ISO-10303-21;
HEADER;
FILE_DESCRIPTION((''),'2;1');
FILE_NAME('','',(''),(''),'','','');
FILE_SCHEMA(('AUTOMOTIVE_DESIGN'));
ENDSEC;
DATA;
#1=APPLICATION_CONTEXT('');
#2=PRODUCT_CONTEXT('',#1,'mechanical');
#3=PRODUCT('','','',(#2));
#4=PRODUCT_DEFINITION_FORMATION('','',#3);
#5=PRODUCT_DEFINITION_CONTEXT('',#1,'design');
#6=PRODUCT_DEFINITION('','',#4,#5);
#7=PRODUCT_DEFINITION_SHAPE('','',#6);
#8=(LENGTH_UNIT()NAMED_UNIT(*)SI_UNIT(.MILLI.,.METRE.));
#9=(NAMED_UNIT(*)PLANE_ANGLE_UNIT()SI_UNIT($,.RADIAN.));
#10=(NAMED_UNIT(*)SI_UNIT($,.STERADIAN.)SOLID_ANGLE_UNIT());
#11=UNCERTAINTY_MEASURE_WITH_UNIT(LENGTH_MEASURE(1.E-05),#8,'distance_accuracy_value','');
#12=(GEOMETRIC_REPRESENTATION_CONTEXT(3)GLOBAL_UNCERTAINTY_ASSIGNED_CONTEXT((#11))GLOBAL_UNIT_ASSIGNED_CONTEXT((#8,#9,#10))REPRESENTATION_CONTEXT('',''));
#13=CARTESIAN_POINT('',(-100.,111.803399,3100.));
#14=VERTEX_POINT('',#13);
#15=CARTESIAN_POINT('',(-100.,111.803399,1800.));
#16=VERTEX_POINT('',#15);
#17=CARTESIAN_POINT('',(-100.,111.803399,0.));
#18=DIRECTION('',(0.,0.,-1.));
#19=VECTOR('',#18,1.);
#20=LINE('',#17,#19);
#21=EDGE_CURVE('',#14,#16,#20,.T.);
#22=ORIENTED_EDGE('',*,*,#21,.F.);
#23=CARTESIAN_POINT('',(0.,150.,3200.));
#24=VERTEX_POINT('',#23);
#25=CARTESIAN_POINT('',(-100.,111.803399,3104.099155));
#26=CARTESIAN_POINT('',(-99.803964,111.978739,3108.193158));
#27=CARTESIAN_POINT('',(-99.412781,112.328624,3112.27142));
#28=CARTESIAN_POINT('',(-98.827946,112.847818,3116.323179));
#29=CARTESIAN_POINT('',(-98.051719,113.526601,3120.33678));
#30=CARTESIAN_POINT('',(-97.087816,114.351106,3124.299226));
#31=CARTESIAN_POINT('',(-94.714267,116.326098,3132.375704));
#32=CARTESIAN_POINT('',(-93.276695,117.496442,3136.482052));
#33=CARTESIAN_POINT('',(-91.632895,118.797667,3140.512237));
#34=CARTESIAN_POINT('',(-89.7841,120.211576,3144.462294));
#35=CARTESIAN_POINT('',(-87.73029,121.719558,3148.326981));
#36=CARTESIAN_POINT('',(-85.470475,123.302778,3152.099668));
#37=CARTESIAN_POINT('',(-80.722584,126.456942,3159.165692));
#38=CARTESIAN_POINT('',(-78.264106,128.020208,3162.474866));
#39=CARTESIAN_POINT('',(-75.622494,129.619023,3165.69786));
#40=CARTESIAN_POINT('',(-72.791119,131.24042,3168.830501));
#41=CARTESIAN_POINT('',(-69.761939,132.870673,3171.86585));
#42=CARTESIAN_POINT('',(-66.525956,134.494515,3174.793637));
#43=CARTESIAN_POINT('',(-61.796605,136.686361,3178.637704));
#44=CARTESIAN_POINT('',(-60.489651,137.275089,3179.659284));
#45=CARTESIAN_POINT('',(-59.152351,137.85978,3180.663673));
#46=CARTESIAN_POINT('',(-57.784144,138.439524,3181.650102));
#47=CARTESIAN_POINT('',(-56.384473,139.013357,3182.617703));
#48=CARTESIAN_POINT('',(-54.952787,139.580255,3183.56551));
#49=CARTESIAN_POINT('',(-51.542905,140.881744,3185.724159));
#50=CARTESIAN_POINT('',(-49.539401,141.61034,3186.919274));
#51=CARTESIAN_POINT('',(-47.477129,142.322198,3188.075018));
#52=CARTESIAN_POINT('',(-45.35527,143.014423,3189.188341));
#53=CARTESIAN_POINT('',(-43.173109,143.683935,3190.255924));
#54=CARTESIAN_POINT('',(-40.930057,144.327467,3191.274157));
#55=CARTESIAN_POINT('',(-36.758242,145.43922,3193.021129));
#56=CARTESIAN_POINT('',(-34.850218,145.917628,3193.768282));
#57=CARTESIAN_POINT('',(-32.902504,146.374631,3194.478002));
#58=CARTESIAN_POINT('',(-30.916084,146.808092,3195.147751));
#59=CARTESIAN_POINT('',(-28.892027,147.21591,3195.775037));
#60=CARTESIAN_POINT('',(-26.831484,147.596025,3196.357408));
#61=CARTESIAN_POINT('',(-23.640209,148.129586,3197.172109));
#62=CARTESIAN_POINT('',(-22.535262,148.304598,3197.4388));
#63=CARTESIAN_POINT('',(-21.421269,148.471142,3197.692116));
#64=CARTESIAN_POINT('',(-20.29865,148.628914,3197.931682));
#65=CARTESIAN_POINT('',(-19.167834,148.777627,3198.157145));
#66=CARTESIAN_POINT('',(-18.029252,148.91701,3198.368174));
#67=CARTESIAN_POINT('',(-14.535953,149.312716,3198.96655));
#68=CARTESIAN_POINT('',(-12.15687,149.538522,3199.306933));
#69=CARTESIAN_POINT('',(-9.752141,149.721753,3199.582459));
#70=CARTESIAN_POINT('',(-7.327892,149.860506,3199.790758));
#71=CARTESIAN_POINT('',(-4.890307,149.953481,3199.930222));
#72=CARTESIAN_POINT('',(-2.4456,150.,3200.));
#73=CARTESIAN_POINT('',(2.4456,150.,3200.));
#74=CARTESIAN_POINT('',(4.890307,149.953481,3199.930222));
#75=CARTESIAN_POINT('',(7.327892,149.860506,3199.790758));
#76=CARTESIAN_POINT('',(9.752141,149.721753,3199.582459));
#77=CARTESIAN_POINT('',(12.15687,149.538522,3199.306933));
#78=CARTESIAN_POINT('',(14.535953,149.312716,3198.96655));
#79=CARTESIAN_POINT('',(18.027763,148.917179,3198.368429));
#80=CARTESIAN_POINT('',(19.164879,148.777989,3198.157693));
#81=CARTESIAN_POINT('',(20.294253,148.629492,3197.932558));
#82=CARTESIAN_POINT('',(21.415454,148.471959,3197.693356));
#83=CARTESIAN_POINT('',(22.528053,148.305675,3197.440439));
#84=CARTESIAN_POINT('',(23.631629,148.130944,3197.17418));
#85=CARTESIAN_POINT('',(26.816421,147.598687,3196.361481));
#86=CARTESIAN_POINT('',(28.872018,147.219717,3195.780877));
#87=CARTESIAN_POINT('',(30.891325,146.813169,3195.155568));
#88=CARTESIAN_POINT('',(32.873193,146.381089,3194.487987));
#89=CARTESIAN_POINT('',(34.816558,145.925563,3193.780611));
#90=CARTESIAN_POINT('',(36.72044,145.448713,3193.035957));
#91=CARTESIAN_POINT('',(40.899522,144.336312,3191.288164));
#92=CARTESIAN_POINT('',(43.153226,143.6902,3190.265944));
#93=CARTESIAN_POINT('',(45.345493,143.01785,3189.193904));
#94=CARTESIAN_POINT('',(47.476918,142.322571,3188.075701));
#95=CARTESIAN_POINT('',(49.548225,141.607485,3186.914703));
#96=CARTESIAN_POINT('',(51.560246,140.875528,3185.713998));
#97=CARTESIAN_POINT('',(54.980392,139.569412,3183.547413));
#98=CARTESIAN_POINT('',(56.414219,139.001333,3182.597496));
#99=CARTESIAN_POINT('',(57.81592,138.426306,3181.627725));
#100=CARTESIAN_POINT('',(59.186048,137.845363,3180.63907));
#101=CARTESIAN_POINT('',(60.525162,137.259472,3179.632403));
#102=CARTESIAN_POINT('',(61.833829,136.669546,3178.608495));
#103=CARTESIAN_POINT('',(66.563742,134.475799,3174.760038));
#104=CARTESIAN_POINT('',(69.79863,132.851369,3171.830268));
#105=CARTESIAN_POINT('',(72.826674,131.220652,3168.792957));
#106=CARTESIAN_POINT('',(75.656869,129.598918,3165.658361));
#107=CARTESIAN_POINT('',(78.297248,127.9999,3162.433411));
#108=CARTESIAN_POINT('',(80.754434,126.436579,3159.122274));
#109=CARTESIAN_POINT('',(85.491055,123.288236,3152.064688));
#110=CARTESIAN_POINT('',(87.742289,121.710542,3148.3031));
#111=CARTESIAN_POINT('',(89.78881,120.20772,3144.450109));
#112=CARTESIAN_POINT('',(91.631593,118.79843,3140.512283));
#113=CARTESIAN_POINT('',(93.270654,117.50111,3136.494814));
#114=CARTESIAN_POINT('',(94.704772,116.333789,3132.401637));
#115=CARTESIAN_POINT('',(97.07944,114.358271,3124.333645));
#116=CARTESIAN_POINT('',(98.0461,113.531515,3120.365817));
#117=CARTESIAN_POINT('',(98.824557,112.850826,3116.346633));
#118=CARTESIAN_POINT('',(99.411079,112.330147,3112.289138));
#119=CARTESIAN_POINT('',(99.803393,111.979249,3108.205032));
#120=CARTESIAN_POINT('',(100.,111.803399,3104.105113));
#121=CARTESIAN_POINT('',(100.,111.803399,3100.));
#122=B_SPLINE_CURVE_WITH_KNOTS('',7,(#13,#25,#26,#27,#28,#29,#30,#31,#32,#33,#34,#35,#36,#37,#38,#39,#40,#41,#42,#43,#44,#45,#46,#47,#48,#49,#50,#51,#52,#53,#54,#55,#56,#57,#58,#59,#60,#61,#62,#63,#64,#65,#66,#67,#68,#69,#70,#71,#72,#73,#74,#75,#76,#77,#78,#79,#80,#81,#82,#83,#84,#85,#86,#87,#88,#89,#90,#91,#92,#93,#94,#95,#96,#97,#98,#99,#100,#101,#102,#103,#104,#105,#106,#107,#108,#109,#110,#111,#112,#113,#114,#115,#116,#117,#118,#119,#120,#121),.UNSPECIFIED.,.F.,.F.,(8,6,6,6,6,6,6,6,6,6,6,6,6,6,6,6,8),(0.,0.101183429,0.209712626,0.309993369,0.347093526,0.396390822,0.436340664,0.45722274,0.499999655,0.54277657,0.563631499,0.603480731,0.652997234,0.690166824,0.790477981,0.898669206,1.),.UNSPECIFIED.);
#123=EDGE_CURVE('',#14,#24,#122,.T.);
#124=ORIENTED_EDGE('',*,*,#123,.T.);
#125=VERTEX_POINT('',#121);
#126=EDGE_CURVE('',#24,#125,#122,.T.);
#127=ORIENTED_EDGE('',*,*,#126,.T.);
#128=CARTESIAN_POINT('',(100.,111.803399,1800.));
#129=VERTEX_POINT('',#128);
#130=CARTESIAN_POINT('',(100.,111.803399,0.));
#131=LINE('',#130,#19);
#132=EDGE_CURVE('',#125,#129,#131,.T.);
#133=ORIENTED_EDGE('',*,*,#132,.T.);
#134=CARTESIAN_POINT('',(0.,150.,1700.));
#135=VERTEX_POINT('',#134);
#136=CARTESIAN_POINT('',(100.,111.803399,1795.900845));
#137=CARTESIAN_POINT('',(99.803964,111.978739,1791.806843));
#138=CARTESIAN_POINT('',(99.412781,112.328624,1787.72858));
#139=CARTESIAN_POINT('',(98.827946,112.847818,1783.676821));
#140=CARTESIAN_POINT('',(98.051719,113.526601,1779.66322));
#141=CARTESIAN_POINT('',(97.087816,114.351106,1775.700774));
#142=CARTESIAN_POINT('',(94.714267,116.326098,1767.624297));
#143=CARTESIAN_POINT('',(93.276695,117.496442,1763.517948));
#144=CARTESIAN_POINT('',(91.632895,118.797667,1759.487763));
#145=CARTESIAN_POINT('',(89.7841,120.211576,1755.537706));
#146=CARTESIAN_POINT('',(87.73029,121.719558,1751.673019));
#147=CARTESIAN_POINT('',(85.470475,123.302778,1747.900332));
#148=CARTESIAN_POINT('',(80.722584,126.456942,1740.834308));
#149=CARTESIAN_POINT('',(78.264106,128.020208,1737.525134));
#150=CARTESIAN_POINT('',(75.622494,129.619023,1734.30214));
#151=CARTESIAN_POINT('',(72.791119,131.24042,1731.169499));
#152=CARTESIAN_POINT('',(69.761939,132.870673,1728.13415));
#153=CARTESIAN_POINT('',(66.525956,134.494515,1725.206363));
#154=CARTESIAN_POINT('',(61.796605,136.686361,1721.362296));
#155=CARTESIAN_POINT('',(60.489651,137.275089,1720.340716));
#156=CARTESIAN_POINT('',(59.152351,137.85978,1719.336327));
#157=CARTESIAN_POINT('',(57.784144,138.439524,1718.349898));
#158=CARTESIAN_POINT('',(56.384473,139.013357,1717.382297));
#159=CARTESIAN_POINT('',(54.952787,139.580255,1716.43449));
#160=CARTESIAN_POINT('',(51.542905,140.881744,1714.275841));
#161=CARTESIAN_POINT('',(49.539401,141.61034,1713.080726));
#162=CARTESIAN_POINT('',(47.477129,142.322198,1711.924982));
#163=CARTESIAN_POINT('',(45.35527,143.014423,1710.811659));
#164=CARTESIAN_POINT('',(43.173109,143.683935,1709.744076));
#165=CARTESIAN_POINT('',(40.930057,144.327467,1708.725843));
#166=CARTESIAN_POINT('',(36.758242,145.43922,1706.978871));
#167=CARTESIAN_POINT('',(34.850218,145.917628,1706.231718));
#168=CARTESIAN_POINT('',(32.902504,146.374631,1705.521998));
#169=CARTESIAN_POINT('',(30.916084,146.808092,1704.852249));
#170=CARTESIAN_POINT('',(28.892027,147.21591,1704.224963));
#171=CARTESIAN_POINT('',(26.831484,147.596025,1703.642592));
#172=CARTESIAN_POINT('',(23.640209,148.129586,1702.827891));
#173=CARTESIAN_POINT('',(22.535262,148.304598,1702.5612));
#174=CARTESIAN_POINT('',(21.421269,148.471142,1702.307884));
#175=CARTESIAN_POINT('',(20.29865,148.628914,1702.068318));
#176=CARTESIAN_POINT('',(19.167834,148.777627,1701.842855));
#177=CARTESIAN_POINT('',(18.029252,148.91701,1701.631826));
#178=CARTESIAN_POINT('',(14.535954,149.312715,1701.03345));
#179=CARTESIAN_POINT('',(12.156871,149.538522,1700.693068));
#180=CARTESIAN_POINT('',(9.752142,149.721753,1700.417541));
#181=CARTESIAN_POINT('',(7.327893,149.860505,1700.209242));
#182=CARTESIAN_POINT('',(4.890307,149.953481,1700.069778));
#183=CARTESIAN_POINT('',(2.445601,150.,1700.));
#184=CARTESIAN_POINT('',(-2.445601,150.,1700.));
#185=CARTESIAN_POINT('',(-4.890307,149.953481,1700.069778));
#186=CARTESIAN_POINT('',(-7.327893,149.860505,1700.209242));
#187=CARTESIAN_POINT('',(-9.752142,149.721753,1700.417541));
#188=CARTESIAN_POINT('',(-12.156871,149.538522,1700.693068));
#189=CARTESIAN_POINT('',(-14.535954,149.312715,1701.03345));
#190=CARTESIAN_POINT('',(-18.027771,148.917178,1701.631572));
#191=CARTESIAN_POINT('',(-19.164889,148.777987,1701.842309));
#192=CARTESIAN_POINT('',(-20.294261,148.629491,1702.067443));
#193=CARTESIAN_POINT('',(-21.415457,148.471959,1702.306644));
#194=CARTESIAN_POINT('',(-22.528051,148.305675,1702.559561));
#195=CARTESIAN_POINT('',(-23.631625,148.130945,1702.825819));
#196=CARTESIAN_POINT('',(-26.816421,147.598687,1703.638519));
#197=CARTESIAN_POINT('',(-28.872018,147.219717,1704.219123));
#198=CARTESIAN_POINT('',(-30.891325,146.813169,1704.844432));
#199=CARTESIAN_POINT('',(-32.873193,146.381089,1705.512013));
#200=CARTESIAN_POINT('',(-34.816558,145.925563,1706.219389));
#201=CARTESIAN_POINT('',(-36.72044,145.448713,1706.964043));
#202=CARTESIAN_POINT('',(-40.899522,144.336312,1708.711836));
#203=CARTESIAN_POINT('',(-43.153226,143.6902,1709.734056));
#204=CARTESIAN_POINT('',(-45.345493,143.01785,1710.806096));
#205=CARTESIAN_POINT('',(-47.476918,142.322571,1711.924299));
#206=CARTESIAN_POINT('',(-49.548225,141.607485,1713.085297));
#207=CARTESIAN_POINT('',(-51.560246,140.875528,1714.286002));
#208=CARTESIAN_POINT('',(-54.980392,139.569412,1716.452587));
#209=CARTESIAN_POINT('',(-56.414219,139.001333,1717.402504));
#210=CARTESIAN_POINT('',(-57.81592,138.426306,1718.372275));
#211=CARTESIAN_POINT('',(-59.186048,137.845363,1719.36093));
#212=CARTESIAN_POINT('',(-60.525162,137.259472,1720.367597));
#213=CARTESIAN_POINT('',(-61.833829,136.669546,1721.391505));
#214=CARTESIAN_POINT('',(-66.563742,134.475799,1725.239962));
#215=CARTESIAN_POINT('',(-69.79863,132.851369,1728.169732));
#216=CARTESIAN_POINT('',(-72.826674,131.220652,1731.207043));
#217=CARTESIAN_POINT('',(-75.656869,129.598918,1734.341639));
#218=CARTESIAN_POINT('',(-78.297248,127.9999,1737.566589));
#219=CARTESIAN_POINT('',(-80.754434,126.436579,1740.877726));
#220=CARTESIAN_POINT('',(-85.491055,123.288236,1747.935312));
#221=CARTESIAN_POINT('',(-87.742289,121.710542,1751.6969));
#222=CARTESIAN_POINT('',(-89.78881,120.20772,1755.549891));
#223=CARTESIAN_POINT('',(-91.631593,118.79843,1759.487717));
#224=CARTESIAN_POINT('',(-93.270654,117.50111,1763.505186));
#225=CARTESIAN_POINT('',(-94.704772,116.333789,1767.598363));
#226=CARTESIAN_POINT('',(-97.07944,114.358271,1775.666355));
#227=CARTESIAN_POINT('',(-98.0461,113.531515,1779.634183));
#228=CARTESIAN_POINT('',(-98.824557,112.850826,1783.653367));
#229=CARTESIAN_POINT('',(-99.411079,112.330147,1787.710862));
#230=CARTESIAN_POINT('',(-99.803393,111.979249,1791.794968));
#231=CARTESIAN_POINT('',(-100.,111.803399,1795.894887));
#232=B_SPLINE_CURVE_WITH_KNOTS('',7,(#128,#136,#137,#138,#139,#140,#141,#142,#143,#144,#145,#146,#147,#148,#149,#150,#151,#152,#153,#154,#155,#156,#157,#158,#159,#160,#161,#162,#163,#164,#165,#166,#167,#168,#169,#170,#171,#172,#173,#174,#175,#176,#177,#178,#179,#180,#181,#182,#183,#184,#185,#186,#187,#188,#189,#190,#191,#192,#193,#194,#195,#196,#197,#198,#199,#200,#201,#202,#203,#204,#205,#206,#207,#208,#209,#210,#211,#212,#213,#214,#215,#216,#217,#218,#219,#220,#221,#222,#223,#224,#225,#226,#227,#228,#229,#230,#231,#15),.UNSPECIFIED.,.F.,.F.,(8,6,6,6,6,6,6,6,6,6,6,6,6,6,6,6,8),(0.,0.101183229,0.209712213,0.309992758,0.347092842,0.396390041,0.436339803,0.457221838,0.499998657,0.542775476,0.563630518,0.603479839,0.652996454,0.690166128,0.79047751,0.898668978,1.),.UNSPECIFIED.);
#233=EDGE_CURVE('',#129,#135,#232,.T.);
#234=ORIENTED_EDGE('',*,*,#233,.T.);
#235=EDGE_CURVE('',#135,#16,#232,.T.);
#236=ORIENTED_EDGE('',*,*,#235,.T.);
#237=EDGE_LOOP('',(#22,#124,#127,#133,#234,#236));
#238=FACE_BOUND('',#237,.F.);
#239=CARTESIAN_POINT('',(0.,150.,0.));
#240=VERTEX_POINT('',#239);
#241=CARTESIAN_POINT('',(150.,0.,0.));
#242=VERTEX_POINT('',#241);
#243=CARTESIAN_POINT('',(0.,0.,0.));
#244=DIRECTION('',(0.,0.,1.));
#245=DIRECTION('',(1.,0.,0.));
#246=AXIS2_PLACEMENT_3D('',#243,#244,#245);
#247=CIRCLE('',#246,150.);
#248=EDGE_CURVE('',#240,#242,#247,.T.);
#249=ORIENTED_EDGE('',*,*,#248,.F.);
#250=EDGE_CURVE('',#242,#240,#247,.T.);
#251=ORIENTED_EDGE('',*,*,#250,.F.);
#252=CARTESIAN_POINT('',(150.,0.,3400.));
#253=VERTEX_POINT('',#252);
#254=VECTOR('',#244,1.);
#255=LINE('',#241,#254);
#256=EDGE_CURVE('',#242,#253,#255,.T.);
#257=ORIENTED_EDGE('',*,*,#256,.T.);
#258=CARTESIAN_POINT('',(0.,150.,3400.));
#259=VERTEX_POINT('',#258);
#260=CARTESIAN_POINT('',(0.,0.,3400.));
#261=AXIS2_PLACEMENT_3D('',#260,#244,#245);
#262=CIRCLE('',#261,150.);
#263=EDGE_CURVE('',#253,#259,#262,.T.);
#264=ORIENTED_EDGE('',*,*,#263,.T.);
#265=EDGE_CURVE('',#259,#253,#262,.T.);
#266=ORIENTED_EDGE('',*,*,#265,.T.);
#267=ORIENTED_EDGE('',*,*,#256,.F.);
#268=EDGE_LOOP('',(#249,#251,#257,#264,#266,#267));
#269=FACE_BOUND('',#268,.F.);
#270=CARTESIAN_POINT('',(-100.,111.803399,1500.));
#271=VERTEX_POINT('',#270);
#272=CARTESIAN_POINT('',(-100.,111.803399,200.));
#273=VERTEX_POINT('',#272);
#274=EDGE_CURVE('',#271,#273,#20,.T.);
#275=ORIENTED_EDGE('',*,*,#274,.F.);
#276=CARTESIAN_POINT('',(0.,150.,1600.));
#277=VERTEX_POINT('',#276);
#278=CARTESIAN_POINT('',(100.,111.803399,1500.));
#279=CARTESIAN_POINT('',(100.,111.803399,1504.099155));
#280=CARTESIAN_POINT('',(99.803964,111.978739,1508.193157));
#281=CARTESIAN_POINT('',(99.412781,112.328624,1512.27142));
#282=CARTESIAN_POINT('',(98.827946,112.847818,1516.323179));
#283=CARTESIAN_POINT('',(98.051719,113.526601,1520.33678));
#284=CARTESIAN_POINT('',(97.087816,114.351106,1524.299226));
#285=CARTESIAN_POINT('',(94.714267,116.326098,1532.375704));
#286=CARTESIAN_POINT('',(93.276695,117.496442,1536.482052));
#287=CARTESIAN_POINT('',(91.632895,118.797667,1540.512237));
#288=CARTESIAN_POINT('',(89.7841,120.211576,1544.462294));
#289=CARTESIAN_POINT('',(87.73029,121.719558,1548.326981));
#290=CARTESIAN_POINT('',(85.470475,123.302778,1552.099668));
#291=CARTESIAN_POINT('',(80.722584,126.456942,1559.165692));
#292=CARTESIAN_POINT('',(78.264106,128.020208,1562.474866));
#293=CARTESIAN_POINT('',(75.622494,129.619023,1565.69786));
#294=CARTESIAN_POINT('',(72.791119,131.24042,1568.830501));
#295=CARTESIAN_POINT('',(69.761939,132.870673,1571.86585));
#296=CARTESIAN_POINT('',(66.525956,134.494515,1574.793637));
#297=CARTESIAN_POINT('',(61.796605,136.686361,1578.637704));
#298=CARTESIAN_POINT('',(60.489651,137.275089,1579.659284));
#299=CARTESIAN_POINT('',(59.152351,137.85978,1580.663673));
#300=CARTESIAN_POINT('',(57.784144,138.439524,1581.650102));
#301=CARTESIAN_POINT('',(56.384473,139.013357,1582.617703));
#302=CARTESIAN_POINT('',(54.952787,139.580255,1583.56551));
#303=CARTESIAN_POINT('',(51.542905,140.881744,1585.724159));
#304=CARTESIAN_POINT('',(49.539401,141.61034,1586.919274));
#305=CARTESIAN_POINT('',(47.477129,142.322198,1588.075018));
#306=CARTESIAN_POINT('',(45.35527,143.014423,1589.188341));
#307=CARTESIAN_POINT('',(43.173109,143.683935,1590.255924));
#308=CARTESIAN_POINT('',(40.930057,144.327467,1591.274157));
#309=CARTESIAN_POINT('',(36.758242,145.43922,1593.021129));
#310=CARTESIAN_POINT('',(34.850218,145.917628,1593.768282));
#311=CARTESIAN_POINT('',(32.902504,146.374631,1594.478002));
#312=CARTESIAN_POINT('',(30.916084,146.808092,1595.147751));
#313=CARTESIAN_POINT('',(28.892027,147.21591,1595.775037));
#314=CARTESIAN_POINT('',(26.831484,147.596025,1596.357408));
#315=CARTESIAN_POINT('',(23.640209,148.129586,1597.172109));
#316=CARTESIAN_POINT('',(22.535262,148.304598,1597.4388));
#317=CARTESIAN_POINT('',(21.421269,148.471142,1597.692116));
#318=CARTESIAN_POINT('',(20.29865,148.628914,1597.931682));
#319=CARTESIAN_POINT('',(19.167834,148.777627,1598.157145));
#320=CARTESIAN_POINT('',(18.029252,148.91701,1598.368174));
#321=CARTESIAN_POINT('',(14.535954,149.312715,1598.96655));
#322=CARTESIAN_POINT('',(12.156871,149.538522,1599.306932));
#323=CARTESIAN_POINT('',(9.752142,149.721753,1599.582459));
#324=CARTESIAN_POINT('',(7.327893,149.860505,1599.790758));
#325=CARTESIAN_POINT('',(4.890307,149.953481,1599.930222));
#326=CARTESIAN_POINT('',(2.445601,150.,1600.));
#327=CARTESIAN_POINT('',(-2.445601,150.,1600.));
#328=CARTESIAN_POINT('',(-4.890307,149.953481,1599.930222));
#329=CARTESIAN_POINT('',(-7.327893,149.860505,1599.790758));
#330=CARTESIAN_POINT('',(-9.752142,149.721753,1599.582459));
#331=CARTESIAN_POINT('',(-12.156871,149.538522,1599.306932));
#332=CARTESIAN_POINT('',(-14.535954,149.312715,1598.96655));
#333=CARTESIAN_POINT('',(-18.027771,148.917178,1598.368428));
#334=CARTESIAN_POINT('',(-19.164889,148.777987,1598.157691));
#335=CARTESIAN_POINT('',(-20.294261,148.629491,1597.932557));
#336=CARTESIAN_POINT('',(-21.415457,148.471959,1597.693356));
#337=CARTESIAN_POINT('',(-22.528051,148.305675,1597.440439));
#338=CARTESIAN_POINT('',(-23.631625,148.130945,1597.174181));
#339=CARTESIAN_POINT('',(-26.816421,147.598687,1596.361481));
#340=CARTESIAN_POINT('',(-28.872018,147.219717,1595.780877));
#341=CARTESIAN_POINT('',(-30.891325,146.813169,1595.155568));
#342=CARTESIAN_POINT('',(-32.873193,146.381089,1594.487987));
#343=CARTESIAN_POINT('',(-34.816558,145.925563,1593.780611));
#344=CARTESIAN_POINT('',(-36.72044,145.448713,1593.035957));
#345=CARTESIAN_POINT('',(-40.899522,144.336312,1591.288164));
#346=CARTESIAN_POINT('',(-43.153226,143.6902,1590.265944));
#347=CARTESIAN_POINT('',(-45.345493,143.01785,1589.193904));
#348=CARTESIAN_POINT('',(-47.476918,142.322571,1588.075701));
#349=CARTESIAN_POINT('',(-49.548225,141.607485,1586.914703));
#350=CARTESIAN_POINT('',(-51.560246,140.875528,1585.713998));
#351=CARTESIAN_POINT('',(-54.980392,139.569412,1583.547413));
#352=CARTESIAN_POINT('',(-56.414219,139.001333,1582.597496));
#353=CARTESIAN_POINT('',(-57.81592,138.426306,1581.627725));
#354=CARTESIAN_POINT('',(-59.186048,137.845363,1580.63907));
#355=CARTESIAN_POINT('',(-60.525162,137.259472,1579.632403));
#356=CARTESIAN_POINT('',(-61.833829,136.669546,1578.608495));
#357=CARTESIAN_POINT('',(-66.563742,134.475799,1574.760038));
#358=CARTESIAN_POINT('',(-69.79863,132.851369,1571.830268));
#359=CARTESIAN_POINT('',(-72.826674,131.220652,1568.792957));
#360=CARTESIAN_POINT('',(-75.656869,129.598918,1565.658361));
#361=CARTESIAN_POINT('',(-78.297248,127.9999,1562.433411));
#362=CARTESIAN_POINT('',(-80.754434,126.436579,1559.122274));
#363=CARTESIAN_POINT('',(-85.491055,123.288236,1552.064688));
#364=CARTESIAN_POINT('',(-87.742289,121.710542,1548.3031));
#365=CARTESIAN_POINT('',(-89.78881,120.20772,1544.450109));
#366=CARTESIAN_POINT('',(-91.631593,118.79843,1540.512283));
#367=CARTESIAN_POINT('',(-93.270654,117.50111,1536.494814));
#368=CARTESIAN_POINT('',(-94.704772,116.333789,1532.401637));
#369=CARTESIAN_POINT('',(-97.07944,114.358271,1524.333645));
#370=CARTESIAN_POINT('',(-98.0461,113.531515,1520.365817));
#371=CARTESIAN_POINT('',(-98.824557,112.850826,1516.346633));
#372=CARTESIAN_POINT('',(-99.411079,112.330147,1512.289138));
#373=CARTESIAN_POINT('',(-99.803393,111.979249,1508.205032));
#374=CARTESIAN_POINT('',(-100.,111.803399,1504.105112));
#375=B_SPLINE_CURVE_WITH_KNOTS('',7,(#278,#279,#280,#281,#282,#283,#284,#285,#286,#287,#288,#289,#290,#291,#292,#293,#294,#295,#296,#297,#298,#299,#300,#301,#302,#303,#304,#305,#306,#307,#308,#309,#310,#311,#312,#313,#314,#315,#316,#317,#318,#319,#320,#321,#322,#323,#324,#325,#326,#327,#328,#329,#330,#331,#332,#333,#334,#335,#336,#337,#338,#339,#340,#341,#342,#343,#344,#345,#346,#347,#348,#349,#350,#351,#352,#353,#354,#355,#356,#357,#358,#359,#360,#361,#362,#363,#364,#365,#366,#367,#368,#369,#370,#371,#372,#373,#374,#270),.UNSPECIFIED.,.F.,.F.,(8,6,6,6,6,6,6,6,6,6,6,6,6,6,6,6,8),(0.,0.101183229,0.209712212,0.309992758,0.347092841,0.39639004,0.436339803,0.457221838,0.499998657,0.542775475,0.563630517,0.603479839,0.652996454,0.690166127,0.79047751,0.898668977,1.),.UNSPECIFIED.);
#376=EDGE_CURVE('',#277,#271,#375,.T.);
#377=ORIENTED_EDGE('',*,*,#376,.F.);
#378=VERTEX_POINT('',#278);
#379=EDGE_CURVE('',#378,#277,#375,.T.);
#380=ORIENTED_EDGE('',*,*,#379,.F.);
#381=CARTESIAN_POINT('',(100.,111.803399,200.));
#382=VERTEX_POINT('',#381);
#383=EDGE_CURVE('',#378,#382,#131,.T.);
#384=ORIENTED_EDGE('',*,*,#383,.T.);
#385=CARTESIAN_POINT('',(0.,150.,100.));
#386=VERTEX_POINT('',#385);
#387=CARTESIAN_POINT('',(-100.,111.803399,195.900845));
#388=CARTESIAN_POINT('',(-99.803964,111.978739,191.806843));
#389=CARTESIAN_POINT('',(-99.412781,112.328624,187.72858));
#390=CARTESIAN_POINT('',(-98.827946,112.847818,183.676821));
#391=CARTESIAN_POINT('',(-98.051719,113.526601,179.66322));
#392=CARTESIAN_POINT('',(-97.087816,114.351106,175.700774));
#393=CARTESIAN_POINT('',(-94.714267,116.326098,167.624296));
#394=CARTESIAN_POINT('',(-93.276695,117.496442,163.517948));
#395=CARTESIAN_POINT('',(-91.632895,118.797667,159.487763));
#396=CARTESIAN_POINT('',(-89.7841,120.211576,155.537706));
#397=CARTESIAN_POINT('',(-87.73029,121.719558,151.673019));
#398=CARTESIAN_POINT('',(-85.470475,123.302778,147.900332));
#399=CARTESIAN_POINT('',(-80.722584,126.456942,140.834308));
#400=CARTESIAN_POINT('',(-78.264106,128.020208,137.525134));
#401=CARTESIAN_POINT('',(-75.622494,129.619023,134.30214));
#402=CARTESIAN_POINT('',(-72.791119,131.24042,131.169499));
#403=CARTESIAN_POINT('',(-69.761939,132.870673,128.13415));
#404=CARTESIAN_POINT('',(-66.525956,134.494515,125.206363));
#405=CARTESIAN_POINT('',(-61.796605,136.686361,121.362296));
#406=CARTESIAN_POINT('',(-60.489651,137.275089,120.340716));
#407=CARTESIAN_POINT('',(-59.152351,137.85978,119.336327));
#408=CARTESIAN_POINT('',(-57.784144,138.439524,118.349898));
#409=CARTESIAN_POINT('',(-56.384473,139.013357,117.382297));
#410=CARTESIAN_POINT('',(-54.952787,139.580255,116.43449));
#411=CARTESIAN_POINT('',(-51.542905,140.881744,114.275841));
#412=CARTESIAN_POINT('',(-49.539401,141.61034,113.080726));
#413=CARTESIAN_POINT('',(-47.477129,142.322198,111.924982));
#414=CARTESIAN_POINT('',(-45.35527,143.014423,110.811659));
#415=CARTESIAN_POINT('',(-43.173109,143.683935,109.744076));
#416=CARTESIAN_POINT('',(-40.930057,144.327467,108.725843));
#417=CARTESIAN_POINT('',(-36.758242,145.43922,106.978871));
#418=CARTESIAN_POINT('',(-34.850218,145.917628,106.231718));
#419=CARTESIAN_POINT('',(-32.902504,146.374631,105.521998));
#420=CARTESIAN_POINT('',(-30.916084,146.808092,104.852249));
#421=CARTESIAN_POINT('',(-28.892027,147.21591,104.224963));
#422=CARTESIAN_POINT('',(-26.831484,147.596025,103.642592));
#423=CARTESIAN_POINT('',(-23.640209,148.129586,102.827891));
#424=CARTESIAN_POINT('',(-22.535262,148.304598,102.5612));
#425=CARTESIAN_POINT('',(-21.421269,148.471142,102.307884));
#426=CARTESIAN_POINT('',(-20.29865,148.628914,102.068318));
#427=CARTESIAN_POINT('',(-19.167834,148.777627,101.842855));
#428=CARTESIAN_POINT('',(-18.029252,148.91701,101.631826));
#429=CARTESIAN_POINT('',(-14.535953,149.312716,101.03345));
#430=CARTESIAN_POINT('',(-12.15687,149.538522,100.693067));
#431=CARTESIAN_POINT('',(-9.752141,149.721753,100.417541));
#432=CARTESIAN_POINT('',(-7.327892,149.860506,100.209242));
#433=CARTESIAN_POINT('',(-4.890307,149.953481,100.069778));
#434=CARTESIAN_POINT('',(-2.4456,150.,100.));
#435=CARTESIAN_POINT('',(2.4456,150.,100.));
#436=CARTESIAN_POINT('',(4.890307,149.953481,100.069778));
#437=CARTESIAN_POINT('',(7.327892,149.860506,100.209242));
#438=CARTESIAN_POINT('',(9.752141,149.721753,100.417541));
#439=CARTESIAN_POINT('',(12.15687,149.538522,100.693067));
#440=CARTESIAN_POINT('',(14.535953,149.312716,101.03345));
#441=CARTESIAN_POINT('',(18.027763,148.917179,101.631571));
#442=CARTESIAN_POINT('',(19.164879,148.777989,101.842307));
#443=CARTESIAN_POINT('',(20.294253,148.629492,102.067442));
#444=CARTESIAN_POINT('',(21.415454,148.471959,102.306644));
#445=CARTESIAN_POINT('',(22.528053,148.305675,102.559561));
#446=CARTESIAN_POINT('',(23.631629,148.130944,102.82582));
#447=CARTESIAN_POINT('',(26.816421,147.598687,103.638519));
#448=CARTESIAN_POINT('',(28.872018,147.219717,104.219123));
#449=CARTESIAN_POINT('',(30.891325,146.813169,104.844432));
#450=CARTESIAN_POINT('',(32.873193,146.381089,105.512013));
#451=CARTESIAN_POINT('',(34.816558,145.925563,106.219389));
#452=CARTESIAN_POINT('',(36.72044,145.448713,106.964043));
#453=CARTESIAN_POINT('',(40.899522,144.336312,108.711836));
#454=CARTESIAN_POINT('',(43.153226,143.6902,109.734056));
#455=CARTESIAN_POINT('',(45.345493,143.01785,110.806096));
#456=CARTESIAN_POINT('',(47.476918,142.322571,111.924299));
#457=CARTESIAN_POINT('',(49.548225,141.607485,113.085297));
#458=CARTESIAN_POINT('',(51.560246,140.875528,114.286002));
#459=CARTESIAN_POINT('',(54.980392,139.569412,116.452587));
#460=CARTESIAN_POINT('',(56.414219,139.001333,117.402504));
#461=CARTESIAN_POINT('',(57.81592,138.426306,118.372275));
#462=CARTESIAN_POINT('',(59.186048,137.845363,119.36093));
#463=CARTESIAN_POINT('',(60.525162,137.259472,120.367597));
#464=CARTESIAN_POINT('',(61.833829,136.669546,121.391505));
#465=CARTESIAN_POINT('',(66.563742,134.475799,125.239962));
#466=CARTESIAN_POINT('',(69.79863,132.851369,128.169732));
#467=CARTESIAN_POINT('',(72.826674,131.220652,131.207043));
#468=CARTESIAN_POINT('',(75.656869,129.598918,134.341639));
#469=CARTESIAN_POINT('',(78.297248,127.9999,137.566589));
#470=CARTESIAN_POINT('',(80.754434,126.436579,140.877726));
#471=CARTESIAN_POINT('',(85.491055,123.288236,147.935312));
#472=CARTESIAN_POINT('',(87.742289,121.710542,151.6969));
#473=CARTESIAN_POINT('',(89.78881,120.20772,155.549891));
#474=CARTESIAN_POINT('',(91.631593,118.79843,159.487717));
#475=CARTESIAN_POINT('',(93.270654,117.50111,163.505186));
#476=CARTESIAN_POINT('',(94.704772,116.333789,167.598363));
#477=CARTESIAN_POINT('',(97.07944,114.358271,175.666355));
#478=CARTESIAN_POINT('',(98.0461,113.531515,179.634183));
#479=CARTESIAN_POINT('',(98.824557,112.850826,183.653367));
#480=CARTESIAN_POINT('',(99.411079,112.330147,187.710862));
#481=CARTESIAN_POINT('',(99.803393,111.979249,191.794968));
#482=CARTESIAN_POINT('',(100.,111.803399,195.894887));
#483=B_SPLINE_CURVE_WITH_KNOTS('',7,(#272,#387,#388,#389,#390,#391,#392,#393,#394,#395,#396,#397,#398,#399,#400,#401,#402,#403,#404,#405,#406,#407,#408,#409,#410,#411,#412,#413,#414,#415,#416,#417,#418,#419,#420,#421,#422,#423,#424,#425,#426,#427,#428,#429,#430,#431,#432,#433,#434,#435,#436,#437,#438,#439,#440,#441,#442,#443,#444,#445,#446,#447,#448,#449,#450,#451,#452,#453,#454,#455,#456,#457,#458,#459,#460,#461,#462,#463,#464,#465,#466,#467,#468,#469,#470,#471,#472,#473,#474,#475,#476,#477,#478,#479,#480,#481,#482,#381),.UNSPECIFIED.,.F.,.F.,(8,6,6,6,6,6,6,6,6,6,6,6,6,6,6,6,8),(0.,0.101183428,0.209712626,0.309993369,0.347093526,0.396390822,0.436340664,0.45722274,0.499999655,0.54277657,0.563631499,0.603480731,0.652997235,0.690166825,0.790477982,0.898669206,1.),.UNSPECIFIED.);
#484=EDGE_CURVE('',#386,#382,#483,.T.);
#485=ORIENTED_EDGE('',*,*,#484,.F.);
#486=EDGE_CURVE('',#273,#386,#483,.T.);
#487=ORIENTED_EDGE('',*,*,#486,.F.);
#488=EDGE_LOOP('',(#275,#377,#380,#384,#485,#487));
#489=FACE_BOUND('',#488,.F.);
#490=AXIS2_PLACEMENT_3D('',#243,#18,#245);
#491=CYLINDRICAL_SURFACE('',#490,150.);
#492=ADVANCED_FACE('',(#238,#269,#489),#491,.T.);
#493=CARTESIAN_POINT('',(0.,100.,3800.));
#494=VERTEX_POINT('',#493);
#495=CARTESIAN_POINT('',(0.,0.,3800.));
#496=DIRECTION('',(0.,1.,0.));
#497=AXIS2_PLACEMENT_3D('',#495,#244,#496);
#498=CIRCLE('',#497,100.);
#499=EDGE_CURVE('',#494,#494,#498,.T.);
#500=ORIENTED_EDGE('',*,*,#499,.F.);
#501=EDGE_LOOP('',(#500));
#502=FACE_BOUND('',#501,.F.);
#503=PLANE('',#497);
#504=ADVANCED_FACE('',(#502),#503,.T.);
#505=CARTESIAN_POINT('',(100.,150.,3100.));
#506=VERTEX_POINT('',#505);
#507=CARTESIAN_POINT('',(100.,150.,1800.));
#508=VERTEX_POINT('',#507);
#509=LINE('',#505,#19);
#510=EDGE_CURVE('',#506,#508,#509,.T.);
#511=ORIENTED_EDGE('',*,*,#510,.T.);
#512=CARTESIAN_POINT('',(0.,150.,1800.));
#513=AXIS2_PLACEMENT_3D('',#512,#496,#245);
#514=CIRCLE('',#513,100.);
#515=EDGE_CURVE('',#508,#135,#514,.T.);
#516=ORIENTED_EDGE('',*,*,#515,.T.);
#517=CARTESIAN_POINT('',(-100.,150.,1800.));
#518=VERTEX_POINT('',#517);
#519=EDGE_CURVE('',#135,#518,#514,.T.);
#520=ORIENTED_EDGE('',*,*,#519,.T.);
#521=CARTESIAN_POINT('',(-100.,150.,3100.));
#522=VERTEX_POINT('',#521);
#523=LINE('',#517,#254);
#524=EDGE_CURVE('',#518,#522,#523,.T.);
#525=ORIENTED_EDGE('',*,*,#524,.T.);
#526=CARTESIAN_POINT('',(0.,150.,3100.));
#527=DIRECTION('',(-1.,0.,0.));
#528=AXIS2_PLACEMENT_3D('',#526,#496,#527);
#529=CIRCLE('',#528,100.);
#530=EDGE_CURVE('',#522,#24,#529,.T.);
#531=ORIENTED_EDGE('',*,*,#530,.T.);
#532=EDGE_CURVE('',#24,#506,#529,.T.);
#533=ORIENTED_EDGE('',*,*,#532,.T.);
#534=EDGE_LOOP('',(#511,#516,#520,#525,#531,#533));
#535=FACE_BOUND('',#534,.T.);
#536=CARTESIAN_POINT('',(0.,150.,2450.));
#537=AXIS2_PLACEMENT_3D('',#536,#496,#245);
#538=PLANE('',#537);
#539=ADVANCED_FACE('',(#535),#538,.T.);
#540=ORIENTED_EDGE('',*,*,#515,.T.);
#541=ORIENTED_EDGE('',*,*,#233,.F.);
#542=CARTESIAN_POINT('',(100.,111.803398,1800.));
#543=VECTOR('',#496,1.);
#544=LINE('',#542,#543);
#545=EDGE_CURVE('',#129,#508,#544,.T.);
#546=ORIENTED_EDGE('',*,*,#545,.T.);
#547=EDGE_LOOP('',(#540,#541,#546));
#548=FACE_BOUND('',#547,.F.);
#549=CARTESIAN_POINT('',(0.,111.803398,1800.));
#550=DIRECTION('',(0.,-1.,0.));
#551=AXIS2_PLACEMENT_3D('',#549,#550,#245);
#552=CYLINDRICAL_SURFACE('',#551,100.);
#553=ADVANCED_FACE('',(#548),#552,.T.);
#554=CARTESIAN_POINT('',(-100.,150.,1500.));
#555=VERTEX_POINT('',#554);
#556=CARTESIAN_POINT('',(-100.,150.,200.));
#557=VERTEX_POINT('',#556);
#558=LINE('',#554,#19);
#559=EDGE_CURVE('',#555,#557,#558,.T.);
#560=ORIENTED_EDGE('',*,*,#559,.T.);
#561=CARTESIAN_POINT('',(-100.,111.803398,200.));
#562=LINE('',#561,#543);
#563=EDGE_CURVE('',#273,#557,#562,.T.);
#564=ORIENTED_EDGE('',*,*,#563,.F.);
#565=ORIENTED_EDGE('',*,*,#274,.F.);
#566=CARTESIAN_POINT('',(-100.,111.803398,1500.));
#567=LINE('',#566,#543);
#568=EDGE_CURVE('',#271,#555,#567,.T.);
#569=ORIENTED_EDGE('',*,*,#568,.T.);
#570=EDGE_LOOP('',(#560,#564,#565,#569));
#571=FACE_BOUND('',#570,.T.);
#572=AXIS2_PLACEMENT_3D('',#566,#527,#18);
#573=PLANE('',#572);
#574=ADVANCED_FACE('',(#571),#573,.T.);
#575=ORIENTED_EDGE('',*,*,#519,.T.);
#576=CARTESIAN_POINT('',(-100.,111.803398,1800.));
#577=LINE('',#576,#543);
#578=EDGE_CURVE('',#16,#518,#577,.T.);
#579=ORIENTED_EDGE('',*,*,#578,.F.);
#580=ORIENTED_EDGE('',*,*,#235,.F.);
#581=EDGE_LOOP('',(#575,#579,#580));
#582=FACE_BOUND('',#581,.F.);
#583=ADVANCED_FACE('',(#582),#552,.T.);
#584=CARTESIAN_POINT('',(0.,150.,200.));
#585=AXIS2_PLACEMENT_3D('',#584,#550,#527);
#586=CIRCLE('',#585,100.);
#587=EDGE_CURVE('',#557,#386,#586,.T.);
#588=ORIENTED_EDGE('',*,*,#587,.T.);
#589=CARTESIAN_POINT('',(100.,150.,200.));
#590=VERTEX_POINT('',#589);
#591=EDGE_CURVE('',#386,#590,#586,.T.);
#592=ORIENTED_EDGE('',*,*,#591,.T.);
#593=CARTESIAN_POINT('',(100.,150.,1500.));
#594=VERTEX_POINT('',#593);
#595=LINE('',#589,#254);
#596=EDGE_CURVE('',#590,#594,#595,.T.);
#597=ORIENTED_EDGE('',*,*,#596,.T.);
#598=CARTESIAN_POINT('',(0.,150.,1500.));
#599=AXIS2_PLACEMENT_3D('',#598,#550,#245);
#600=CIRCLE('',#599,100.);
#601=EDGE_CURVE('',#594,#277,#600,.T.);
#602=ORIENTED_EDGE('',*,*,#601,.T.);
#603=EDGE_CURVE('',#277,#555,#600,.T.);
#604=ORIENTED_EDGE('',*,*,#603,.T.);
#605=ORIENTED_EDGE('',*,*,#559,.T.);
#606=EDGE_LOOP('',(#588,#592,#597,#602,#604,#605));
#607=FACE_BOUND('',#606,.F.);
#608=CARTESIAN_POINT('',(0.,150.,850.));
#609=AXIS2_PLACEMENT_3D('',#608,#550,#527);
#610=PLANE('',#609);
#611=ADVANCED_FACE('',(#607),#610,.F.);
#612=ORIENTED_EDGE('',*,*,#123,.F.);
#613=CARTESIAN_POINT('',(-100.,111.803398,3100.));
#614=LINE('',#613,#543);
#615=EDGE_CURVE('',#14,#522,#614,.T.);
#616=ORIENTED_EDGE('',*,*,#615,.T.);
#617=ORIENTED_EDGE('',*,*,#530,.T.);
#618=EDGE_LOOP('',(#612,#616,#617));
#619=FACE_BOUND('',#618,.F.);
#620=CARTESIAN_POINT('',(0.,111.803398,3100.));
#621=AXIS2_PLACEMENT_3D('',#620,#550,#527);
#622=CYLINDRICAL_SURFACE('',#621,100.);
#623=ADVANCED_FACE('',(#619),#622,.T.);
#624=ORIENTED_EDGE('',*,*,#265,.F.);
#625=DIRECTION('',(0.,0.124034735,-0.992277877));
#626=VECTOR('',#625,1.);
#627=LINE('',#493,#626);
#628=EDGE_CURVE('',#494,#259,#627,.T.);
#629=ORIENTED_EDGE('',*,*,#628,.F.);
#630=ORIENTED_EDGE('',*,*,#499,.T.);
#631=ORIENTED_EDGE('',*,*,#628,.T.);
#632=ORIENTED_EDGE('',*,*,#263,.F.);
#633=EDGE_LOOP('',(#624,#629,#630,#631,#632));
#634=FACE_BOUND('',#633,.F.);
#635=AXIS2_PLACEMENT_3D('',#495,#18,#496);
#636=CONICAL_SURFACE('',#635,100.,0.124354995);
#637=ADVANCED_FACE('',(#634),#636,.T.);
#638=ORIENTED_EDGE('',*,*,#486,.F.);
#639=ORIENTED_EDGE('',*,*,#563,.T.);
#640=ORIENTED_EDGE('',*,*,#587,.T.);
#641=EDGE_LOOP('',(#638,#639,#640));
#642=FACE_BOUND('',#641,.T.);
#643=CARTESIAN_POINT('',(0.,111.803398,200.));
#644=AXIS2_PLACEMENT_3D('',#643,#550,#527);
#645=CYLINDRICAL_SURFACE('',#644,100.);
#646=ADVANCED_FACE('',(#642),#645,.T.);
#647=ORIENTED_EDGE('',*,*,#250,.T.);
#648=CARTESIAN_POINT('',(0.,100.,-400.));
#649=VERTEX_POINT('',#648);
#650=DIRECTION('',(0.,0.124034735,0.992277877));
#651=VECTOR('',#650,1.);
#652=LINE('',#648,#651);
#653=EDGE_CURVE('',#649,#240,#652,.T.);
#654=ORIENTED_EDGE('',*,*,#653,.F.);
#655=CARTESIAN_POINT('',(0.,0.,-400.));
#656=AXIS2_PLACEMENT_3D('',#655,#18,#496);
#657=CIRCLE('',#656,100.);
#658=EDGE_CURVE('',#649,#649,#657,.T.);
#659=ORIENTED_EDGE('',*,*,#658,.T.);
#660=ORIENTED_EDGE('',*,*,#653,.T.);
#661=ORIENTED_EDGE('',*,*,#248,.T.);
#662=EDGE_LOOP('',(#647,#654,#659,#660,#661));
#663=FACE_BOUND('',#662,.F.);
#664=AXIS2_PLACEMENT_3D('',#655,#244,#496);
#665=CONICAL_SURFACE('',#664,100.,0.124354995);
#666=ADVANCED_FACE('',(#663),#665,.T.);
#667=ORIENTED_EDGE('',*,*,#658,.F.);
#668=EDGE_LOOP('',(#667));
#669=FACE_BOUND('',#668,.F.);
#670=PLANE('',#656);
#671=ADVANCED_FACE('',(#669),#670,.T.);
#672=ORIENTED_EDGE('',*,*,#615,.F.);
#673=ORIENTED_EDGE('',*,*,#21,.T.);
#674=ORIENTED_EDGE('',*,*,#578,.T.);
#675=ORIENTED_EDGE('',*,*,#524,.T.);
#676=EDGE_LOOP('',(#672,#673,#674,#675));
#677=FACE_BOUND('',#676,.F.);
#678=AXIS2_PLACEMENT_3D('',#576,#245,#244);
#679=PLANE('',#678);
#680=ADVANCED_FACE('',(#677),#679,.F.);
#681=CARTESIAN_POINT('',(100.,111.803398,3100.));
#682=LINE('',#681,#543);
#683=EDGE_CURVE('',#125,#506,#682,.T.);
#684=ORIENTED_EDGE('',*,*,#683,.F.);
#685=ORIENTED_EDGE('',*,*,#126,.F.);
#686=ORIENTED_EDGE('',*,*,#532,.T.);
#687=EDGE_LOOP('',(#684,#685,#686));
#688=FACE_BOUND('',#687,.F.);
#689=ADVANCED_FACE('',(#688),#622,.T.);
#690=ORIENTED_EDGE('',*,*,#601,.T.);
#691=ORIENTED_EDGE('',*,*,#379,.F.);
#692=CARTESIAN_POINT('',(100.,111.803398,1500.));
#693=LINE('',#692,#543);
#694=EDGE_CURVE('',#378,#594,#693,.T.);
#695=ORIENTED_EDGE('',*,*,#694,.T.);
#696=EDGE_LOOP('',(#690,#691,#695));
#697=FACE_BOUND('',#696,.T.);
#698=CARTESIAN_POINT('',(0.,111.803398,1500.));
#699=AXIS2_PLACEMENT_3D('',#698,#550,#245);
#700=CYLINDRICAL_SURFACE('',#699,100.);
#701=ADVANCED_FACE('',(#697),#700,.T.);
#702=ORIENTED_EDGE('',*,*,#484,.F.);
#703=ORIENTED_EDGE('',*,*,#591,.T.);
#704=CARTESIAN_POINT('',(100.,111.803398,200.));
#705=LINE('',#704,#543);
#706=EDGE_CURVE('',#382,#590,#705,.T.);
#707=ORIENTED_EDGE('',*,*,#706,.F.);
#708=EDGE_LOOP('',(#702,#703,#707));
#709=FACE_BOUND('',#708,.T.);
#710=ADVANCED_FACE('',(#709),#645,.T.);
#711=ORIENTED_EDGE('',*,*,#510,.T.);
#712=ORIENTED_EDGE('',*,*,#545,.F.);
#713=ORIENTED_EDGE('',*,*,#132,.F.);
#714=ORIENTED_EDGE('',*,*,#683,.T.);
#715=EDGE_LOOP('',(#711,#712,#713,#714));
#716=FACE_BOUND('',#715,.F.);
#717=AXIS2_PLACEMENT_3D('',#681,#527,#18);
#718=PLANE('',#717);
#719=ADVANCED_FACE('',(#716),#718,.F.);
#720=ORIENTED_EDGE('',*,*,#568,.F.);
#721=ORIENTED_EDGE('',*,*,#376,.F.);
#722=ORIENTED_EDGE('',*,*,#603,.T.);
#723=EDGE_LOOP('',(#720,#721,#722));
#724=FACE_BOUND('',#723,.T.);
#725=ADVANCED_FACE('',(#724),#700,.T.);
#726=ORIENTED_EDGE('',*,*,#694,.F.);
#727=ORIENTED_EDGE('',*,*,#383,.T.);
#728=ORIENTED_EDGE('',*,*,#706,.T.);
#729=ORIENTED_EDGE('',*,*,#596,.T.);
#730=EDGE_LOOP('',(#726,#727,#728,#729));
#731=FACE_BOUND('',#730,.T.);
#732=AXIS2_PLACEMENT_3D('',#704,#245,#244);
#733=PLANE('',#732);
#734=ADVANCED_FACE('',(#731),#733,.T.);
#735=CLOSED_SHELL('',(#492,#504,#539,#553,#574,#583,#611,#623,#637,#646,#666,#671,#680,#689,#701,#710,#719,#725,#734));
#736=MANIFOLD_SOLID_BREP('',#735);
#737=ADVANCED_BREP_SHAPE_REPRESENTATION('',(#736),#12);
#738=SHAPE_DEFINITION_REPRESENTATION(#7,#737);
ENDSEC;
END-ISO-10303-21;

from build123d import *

# Parameters (mm, degrees)
SECTION_2_R         = 150
BOSS_EXTRUDE1_DEPTH = 3400
BOSS_EXTRUDE2_REACH = 3816.774


with BuildPart() as part:
    # Section 2 → Boss-Extrude1 (new body)
    with BuildSketch(Plane.XY):
        Circle(SECTION_2_R)
    extrude(amount=BOSS_EXTRUDE1_DEPTH)

    # ConoPopa → Revolve1 (revolve)
    with BuildSketch(Plane(origin=(0, 0, 0), x_dir=(0, 0, -1), z_dir=(1, 0, 0))):
        Polygon((400, 0), (400, 100), (0, 150), (0, 0), align=None)
    revolve(axis=Axis((0, 0, 0), (0, 0, -1)))

    # ConoProa → Revolve2 (revolve)
    with BuildSketch(Plane(origin=(0, 0, 0), x_dir=(0, 0, -1), z_dir=(1, 0, 0))):
        Polygon((-3800, 0), (-3800, 100), (-3400, 150), (-3400, 0), align=None)
    revolve(axis=Axis((0, 0, 3400), (0, 0, 1)))

    # Boss-Extrude2: up to this face of the body
    boss_extrude2_end = part.part.faces().sort_by_distance((-150, 0, 1700))[0]
    # Sketch1 → Boss-Extrude2 (add, up to the picked face)
    with BuildSketch(Plane(origin=(0, 150, 0), x_dir=(1, 0, 0), z_dir=(0, 1, 0)), mode=Mode.PRIVATE) as boss_extrude2_sk1:
        with BuildLine():
            Line((-100, -1500), (-100, -200))
            ThreePointArc((-100, -200), (0, -100), (100, -200))
            Line((100, -200), (100, -1500))
            ThreePointArc((100, -1500), (0, -1600), (-100, -1500))
        make_face()
    boss_extrude2_tool1 = split(extrude(boss_extrude2_sk1.sketch, amount=-BOSS_EXTRUDE2_REACH, mode=Mode.PRIVATE), bisect_by=boss_extrude2_end, keep=Keep.BOTH, mode=Mode.PRIVATE)
    # Sketch1 → Boss-Extrude2 (add, up to the picked face)
    with BuildSketch(Plane(origin=(0, 150, 0), x_dir=(1, 0, 0), z_dir=(0, 1, 0)), mode=Mode.PRIVATE) as boss_extrude2_sk2:
        with BuildLine():
            Line((-100, -1800), (-100, -3100))
            ThreePointArc((-100, -3100), (0, -3200), (100, -3100))
            Line((100, -3100), (100, -1800))
            ThreePointArc((100, -1800), (0, -1700), (-100, -1800))
        make_face()
    boss_extrude2_tool2 = split(extrude(boss_extrude2_sk2.sketch, amount=-BOSS_EXTRUDE2_REACH, mode=Mode.PRIVATE), bisect_by=boss_extrude2_end, keep=Keep.BOTH, mode=Mode.PRIVATE)
    add(boss_extrude2_tool1.solids().sort_by(Axis((0, 150, 850), (0, -1, 0)))[0])
    add(boss_extrude2_tool1.solids().sort_by(Axis((0, 150, 850), (0, -1, 0)))[1])
    add(boss_extrude2_tool2.solids().sort_by(Axis((0, 150, 2450), (0, -1, 0)))[0])
    add(boss_extrude2_tool2.solids().sort_by(Axis((0, 150, 2450), (0, -1, 0)))[1])


solid = part.part
